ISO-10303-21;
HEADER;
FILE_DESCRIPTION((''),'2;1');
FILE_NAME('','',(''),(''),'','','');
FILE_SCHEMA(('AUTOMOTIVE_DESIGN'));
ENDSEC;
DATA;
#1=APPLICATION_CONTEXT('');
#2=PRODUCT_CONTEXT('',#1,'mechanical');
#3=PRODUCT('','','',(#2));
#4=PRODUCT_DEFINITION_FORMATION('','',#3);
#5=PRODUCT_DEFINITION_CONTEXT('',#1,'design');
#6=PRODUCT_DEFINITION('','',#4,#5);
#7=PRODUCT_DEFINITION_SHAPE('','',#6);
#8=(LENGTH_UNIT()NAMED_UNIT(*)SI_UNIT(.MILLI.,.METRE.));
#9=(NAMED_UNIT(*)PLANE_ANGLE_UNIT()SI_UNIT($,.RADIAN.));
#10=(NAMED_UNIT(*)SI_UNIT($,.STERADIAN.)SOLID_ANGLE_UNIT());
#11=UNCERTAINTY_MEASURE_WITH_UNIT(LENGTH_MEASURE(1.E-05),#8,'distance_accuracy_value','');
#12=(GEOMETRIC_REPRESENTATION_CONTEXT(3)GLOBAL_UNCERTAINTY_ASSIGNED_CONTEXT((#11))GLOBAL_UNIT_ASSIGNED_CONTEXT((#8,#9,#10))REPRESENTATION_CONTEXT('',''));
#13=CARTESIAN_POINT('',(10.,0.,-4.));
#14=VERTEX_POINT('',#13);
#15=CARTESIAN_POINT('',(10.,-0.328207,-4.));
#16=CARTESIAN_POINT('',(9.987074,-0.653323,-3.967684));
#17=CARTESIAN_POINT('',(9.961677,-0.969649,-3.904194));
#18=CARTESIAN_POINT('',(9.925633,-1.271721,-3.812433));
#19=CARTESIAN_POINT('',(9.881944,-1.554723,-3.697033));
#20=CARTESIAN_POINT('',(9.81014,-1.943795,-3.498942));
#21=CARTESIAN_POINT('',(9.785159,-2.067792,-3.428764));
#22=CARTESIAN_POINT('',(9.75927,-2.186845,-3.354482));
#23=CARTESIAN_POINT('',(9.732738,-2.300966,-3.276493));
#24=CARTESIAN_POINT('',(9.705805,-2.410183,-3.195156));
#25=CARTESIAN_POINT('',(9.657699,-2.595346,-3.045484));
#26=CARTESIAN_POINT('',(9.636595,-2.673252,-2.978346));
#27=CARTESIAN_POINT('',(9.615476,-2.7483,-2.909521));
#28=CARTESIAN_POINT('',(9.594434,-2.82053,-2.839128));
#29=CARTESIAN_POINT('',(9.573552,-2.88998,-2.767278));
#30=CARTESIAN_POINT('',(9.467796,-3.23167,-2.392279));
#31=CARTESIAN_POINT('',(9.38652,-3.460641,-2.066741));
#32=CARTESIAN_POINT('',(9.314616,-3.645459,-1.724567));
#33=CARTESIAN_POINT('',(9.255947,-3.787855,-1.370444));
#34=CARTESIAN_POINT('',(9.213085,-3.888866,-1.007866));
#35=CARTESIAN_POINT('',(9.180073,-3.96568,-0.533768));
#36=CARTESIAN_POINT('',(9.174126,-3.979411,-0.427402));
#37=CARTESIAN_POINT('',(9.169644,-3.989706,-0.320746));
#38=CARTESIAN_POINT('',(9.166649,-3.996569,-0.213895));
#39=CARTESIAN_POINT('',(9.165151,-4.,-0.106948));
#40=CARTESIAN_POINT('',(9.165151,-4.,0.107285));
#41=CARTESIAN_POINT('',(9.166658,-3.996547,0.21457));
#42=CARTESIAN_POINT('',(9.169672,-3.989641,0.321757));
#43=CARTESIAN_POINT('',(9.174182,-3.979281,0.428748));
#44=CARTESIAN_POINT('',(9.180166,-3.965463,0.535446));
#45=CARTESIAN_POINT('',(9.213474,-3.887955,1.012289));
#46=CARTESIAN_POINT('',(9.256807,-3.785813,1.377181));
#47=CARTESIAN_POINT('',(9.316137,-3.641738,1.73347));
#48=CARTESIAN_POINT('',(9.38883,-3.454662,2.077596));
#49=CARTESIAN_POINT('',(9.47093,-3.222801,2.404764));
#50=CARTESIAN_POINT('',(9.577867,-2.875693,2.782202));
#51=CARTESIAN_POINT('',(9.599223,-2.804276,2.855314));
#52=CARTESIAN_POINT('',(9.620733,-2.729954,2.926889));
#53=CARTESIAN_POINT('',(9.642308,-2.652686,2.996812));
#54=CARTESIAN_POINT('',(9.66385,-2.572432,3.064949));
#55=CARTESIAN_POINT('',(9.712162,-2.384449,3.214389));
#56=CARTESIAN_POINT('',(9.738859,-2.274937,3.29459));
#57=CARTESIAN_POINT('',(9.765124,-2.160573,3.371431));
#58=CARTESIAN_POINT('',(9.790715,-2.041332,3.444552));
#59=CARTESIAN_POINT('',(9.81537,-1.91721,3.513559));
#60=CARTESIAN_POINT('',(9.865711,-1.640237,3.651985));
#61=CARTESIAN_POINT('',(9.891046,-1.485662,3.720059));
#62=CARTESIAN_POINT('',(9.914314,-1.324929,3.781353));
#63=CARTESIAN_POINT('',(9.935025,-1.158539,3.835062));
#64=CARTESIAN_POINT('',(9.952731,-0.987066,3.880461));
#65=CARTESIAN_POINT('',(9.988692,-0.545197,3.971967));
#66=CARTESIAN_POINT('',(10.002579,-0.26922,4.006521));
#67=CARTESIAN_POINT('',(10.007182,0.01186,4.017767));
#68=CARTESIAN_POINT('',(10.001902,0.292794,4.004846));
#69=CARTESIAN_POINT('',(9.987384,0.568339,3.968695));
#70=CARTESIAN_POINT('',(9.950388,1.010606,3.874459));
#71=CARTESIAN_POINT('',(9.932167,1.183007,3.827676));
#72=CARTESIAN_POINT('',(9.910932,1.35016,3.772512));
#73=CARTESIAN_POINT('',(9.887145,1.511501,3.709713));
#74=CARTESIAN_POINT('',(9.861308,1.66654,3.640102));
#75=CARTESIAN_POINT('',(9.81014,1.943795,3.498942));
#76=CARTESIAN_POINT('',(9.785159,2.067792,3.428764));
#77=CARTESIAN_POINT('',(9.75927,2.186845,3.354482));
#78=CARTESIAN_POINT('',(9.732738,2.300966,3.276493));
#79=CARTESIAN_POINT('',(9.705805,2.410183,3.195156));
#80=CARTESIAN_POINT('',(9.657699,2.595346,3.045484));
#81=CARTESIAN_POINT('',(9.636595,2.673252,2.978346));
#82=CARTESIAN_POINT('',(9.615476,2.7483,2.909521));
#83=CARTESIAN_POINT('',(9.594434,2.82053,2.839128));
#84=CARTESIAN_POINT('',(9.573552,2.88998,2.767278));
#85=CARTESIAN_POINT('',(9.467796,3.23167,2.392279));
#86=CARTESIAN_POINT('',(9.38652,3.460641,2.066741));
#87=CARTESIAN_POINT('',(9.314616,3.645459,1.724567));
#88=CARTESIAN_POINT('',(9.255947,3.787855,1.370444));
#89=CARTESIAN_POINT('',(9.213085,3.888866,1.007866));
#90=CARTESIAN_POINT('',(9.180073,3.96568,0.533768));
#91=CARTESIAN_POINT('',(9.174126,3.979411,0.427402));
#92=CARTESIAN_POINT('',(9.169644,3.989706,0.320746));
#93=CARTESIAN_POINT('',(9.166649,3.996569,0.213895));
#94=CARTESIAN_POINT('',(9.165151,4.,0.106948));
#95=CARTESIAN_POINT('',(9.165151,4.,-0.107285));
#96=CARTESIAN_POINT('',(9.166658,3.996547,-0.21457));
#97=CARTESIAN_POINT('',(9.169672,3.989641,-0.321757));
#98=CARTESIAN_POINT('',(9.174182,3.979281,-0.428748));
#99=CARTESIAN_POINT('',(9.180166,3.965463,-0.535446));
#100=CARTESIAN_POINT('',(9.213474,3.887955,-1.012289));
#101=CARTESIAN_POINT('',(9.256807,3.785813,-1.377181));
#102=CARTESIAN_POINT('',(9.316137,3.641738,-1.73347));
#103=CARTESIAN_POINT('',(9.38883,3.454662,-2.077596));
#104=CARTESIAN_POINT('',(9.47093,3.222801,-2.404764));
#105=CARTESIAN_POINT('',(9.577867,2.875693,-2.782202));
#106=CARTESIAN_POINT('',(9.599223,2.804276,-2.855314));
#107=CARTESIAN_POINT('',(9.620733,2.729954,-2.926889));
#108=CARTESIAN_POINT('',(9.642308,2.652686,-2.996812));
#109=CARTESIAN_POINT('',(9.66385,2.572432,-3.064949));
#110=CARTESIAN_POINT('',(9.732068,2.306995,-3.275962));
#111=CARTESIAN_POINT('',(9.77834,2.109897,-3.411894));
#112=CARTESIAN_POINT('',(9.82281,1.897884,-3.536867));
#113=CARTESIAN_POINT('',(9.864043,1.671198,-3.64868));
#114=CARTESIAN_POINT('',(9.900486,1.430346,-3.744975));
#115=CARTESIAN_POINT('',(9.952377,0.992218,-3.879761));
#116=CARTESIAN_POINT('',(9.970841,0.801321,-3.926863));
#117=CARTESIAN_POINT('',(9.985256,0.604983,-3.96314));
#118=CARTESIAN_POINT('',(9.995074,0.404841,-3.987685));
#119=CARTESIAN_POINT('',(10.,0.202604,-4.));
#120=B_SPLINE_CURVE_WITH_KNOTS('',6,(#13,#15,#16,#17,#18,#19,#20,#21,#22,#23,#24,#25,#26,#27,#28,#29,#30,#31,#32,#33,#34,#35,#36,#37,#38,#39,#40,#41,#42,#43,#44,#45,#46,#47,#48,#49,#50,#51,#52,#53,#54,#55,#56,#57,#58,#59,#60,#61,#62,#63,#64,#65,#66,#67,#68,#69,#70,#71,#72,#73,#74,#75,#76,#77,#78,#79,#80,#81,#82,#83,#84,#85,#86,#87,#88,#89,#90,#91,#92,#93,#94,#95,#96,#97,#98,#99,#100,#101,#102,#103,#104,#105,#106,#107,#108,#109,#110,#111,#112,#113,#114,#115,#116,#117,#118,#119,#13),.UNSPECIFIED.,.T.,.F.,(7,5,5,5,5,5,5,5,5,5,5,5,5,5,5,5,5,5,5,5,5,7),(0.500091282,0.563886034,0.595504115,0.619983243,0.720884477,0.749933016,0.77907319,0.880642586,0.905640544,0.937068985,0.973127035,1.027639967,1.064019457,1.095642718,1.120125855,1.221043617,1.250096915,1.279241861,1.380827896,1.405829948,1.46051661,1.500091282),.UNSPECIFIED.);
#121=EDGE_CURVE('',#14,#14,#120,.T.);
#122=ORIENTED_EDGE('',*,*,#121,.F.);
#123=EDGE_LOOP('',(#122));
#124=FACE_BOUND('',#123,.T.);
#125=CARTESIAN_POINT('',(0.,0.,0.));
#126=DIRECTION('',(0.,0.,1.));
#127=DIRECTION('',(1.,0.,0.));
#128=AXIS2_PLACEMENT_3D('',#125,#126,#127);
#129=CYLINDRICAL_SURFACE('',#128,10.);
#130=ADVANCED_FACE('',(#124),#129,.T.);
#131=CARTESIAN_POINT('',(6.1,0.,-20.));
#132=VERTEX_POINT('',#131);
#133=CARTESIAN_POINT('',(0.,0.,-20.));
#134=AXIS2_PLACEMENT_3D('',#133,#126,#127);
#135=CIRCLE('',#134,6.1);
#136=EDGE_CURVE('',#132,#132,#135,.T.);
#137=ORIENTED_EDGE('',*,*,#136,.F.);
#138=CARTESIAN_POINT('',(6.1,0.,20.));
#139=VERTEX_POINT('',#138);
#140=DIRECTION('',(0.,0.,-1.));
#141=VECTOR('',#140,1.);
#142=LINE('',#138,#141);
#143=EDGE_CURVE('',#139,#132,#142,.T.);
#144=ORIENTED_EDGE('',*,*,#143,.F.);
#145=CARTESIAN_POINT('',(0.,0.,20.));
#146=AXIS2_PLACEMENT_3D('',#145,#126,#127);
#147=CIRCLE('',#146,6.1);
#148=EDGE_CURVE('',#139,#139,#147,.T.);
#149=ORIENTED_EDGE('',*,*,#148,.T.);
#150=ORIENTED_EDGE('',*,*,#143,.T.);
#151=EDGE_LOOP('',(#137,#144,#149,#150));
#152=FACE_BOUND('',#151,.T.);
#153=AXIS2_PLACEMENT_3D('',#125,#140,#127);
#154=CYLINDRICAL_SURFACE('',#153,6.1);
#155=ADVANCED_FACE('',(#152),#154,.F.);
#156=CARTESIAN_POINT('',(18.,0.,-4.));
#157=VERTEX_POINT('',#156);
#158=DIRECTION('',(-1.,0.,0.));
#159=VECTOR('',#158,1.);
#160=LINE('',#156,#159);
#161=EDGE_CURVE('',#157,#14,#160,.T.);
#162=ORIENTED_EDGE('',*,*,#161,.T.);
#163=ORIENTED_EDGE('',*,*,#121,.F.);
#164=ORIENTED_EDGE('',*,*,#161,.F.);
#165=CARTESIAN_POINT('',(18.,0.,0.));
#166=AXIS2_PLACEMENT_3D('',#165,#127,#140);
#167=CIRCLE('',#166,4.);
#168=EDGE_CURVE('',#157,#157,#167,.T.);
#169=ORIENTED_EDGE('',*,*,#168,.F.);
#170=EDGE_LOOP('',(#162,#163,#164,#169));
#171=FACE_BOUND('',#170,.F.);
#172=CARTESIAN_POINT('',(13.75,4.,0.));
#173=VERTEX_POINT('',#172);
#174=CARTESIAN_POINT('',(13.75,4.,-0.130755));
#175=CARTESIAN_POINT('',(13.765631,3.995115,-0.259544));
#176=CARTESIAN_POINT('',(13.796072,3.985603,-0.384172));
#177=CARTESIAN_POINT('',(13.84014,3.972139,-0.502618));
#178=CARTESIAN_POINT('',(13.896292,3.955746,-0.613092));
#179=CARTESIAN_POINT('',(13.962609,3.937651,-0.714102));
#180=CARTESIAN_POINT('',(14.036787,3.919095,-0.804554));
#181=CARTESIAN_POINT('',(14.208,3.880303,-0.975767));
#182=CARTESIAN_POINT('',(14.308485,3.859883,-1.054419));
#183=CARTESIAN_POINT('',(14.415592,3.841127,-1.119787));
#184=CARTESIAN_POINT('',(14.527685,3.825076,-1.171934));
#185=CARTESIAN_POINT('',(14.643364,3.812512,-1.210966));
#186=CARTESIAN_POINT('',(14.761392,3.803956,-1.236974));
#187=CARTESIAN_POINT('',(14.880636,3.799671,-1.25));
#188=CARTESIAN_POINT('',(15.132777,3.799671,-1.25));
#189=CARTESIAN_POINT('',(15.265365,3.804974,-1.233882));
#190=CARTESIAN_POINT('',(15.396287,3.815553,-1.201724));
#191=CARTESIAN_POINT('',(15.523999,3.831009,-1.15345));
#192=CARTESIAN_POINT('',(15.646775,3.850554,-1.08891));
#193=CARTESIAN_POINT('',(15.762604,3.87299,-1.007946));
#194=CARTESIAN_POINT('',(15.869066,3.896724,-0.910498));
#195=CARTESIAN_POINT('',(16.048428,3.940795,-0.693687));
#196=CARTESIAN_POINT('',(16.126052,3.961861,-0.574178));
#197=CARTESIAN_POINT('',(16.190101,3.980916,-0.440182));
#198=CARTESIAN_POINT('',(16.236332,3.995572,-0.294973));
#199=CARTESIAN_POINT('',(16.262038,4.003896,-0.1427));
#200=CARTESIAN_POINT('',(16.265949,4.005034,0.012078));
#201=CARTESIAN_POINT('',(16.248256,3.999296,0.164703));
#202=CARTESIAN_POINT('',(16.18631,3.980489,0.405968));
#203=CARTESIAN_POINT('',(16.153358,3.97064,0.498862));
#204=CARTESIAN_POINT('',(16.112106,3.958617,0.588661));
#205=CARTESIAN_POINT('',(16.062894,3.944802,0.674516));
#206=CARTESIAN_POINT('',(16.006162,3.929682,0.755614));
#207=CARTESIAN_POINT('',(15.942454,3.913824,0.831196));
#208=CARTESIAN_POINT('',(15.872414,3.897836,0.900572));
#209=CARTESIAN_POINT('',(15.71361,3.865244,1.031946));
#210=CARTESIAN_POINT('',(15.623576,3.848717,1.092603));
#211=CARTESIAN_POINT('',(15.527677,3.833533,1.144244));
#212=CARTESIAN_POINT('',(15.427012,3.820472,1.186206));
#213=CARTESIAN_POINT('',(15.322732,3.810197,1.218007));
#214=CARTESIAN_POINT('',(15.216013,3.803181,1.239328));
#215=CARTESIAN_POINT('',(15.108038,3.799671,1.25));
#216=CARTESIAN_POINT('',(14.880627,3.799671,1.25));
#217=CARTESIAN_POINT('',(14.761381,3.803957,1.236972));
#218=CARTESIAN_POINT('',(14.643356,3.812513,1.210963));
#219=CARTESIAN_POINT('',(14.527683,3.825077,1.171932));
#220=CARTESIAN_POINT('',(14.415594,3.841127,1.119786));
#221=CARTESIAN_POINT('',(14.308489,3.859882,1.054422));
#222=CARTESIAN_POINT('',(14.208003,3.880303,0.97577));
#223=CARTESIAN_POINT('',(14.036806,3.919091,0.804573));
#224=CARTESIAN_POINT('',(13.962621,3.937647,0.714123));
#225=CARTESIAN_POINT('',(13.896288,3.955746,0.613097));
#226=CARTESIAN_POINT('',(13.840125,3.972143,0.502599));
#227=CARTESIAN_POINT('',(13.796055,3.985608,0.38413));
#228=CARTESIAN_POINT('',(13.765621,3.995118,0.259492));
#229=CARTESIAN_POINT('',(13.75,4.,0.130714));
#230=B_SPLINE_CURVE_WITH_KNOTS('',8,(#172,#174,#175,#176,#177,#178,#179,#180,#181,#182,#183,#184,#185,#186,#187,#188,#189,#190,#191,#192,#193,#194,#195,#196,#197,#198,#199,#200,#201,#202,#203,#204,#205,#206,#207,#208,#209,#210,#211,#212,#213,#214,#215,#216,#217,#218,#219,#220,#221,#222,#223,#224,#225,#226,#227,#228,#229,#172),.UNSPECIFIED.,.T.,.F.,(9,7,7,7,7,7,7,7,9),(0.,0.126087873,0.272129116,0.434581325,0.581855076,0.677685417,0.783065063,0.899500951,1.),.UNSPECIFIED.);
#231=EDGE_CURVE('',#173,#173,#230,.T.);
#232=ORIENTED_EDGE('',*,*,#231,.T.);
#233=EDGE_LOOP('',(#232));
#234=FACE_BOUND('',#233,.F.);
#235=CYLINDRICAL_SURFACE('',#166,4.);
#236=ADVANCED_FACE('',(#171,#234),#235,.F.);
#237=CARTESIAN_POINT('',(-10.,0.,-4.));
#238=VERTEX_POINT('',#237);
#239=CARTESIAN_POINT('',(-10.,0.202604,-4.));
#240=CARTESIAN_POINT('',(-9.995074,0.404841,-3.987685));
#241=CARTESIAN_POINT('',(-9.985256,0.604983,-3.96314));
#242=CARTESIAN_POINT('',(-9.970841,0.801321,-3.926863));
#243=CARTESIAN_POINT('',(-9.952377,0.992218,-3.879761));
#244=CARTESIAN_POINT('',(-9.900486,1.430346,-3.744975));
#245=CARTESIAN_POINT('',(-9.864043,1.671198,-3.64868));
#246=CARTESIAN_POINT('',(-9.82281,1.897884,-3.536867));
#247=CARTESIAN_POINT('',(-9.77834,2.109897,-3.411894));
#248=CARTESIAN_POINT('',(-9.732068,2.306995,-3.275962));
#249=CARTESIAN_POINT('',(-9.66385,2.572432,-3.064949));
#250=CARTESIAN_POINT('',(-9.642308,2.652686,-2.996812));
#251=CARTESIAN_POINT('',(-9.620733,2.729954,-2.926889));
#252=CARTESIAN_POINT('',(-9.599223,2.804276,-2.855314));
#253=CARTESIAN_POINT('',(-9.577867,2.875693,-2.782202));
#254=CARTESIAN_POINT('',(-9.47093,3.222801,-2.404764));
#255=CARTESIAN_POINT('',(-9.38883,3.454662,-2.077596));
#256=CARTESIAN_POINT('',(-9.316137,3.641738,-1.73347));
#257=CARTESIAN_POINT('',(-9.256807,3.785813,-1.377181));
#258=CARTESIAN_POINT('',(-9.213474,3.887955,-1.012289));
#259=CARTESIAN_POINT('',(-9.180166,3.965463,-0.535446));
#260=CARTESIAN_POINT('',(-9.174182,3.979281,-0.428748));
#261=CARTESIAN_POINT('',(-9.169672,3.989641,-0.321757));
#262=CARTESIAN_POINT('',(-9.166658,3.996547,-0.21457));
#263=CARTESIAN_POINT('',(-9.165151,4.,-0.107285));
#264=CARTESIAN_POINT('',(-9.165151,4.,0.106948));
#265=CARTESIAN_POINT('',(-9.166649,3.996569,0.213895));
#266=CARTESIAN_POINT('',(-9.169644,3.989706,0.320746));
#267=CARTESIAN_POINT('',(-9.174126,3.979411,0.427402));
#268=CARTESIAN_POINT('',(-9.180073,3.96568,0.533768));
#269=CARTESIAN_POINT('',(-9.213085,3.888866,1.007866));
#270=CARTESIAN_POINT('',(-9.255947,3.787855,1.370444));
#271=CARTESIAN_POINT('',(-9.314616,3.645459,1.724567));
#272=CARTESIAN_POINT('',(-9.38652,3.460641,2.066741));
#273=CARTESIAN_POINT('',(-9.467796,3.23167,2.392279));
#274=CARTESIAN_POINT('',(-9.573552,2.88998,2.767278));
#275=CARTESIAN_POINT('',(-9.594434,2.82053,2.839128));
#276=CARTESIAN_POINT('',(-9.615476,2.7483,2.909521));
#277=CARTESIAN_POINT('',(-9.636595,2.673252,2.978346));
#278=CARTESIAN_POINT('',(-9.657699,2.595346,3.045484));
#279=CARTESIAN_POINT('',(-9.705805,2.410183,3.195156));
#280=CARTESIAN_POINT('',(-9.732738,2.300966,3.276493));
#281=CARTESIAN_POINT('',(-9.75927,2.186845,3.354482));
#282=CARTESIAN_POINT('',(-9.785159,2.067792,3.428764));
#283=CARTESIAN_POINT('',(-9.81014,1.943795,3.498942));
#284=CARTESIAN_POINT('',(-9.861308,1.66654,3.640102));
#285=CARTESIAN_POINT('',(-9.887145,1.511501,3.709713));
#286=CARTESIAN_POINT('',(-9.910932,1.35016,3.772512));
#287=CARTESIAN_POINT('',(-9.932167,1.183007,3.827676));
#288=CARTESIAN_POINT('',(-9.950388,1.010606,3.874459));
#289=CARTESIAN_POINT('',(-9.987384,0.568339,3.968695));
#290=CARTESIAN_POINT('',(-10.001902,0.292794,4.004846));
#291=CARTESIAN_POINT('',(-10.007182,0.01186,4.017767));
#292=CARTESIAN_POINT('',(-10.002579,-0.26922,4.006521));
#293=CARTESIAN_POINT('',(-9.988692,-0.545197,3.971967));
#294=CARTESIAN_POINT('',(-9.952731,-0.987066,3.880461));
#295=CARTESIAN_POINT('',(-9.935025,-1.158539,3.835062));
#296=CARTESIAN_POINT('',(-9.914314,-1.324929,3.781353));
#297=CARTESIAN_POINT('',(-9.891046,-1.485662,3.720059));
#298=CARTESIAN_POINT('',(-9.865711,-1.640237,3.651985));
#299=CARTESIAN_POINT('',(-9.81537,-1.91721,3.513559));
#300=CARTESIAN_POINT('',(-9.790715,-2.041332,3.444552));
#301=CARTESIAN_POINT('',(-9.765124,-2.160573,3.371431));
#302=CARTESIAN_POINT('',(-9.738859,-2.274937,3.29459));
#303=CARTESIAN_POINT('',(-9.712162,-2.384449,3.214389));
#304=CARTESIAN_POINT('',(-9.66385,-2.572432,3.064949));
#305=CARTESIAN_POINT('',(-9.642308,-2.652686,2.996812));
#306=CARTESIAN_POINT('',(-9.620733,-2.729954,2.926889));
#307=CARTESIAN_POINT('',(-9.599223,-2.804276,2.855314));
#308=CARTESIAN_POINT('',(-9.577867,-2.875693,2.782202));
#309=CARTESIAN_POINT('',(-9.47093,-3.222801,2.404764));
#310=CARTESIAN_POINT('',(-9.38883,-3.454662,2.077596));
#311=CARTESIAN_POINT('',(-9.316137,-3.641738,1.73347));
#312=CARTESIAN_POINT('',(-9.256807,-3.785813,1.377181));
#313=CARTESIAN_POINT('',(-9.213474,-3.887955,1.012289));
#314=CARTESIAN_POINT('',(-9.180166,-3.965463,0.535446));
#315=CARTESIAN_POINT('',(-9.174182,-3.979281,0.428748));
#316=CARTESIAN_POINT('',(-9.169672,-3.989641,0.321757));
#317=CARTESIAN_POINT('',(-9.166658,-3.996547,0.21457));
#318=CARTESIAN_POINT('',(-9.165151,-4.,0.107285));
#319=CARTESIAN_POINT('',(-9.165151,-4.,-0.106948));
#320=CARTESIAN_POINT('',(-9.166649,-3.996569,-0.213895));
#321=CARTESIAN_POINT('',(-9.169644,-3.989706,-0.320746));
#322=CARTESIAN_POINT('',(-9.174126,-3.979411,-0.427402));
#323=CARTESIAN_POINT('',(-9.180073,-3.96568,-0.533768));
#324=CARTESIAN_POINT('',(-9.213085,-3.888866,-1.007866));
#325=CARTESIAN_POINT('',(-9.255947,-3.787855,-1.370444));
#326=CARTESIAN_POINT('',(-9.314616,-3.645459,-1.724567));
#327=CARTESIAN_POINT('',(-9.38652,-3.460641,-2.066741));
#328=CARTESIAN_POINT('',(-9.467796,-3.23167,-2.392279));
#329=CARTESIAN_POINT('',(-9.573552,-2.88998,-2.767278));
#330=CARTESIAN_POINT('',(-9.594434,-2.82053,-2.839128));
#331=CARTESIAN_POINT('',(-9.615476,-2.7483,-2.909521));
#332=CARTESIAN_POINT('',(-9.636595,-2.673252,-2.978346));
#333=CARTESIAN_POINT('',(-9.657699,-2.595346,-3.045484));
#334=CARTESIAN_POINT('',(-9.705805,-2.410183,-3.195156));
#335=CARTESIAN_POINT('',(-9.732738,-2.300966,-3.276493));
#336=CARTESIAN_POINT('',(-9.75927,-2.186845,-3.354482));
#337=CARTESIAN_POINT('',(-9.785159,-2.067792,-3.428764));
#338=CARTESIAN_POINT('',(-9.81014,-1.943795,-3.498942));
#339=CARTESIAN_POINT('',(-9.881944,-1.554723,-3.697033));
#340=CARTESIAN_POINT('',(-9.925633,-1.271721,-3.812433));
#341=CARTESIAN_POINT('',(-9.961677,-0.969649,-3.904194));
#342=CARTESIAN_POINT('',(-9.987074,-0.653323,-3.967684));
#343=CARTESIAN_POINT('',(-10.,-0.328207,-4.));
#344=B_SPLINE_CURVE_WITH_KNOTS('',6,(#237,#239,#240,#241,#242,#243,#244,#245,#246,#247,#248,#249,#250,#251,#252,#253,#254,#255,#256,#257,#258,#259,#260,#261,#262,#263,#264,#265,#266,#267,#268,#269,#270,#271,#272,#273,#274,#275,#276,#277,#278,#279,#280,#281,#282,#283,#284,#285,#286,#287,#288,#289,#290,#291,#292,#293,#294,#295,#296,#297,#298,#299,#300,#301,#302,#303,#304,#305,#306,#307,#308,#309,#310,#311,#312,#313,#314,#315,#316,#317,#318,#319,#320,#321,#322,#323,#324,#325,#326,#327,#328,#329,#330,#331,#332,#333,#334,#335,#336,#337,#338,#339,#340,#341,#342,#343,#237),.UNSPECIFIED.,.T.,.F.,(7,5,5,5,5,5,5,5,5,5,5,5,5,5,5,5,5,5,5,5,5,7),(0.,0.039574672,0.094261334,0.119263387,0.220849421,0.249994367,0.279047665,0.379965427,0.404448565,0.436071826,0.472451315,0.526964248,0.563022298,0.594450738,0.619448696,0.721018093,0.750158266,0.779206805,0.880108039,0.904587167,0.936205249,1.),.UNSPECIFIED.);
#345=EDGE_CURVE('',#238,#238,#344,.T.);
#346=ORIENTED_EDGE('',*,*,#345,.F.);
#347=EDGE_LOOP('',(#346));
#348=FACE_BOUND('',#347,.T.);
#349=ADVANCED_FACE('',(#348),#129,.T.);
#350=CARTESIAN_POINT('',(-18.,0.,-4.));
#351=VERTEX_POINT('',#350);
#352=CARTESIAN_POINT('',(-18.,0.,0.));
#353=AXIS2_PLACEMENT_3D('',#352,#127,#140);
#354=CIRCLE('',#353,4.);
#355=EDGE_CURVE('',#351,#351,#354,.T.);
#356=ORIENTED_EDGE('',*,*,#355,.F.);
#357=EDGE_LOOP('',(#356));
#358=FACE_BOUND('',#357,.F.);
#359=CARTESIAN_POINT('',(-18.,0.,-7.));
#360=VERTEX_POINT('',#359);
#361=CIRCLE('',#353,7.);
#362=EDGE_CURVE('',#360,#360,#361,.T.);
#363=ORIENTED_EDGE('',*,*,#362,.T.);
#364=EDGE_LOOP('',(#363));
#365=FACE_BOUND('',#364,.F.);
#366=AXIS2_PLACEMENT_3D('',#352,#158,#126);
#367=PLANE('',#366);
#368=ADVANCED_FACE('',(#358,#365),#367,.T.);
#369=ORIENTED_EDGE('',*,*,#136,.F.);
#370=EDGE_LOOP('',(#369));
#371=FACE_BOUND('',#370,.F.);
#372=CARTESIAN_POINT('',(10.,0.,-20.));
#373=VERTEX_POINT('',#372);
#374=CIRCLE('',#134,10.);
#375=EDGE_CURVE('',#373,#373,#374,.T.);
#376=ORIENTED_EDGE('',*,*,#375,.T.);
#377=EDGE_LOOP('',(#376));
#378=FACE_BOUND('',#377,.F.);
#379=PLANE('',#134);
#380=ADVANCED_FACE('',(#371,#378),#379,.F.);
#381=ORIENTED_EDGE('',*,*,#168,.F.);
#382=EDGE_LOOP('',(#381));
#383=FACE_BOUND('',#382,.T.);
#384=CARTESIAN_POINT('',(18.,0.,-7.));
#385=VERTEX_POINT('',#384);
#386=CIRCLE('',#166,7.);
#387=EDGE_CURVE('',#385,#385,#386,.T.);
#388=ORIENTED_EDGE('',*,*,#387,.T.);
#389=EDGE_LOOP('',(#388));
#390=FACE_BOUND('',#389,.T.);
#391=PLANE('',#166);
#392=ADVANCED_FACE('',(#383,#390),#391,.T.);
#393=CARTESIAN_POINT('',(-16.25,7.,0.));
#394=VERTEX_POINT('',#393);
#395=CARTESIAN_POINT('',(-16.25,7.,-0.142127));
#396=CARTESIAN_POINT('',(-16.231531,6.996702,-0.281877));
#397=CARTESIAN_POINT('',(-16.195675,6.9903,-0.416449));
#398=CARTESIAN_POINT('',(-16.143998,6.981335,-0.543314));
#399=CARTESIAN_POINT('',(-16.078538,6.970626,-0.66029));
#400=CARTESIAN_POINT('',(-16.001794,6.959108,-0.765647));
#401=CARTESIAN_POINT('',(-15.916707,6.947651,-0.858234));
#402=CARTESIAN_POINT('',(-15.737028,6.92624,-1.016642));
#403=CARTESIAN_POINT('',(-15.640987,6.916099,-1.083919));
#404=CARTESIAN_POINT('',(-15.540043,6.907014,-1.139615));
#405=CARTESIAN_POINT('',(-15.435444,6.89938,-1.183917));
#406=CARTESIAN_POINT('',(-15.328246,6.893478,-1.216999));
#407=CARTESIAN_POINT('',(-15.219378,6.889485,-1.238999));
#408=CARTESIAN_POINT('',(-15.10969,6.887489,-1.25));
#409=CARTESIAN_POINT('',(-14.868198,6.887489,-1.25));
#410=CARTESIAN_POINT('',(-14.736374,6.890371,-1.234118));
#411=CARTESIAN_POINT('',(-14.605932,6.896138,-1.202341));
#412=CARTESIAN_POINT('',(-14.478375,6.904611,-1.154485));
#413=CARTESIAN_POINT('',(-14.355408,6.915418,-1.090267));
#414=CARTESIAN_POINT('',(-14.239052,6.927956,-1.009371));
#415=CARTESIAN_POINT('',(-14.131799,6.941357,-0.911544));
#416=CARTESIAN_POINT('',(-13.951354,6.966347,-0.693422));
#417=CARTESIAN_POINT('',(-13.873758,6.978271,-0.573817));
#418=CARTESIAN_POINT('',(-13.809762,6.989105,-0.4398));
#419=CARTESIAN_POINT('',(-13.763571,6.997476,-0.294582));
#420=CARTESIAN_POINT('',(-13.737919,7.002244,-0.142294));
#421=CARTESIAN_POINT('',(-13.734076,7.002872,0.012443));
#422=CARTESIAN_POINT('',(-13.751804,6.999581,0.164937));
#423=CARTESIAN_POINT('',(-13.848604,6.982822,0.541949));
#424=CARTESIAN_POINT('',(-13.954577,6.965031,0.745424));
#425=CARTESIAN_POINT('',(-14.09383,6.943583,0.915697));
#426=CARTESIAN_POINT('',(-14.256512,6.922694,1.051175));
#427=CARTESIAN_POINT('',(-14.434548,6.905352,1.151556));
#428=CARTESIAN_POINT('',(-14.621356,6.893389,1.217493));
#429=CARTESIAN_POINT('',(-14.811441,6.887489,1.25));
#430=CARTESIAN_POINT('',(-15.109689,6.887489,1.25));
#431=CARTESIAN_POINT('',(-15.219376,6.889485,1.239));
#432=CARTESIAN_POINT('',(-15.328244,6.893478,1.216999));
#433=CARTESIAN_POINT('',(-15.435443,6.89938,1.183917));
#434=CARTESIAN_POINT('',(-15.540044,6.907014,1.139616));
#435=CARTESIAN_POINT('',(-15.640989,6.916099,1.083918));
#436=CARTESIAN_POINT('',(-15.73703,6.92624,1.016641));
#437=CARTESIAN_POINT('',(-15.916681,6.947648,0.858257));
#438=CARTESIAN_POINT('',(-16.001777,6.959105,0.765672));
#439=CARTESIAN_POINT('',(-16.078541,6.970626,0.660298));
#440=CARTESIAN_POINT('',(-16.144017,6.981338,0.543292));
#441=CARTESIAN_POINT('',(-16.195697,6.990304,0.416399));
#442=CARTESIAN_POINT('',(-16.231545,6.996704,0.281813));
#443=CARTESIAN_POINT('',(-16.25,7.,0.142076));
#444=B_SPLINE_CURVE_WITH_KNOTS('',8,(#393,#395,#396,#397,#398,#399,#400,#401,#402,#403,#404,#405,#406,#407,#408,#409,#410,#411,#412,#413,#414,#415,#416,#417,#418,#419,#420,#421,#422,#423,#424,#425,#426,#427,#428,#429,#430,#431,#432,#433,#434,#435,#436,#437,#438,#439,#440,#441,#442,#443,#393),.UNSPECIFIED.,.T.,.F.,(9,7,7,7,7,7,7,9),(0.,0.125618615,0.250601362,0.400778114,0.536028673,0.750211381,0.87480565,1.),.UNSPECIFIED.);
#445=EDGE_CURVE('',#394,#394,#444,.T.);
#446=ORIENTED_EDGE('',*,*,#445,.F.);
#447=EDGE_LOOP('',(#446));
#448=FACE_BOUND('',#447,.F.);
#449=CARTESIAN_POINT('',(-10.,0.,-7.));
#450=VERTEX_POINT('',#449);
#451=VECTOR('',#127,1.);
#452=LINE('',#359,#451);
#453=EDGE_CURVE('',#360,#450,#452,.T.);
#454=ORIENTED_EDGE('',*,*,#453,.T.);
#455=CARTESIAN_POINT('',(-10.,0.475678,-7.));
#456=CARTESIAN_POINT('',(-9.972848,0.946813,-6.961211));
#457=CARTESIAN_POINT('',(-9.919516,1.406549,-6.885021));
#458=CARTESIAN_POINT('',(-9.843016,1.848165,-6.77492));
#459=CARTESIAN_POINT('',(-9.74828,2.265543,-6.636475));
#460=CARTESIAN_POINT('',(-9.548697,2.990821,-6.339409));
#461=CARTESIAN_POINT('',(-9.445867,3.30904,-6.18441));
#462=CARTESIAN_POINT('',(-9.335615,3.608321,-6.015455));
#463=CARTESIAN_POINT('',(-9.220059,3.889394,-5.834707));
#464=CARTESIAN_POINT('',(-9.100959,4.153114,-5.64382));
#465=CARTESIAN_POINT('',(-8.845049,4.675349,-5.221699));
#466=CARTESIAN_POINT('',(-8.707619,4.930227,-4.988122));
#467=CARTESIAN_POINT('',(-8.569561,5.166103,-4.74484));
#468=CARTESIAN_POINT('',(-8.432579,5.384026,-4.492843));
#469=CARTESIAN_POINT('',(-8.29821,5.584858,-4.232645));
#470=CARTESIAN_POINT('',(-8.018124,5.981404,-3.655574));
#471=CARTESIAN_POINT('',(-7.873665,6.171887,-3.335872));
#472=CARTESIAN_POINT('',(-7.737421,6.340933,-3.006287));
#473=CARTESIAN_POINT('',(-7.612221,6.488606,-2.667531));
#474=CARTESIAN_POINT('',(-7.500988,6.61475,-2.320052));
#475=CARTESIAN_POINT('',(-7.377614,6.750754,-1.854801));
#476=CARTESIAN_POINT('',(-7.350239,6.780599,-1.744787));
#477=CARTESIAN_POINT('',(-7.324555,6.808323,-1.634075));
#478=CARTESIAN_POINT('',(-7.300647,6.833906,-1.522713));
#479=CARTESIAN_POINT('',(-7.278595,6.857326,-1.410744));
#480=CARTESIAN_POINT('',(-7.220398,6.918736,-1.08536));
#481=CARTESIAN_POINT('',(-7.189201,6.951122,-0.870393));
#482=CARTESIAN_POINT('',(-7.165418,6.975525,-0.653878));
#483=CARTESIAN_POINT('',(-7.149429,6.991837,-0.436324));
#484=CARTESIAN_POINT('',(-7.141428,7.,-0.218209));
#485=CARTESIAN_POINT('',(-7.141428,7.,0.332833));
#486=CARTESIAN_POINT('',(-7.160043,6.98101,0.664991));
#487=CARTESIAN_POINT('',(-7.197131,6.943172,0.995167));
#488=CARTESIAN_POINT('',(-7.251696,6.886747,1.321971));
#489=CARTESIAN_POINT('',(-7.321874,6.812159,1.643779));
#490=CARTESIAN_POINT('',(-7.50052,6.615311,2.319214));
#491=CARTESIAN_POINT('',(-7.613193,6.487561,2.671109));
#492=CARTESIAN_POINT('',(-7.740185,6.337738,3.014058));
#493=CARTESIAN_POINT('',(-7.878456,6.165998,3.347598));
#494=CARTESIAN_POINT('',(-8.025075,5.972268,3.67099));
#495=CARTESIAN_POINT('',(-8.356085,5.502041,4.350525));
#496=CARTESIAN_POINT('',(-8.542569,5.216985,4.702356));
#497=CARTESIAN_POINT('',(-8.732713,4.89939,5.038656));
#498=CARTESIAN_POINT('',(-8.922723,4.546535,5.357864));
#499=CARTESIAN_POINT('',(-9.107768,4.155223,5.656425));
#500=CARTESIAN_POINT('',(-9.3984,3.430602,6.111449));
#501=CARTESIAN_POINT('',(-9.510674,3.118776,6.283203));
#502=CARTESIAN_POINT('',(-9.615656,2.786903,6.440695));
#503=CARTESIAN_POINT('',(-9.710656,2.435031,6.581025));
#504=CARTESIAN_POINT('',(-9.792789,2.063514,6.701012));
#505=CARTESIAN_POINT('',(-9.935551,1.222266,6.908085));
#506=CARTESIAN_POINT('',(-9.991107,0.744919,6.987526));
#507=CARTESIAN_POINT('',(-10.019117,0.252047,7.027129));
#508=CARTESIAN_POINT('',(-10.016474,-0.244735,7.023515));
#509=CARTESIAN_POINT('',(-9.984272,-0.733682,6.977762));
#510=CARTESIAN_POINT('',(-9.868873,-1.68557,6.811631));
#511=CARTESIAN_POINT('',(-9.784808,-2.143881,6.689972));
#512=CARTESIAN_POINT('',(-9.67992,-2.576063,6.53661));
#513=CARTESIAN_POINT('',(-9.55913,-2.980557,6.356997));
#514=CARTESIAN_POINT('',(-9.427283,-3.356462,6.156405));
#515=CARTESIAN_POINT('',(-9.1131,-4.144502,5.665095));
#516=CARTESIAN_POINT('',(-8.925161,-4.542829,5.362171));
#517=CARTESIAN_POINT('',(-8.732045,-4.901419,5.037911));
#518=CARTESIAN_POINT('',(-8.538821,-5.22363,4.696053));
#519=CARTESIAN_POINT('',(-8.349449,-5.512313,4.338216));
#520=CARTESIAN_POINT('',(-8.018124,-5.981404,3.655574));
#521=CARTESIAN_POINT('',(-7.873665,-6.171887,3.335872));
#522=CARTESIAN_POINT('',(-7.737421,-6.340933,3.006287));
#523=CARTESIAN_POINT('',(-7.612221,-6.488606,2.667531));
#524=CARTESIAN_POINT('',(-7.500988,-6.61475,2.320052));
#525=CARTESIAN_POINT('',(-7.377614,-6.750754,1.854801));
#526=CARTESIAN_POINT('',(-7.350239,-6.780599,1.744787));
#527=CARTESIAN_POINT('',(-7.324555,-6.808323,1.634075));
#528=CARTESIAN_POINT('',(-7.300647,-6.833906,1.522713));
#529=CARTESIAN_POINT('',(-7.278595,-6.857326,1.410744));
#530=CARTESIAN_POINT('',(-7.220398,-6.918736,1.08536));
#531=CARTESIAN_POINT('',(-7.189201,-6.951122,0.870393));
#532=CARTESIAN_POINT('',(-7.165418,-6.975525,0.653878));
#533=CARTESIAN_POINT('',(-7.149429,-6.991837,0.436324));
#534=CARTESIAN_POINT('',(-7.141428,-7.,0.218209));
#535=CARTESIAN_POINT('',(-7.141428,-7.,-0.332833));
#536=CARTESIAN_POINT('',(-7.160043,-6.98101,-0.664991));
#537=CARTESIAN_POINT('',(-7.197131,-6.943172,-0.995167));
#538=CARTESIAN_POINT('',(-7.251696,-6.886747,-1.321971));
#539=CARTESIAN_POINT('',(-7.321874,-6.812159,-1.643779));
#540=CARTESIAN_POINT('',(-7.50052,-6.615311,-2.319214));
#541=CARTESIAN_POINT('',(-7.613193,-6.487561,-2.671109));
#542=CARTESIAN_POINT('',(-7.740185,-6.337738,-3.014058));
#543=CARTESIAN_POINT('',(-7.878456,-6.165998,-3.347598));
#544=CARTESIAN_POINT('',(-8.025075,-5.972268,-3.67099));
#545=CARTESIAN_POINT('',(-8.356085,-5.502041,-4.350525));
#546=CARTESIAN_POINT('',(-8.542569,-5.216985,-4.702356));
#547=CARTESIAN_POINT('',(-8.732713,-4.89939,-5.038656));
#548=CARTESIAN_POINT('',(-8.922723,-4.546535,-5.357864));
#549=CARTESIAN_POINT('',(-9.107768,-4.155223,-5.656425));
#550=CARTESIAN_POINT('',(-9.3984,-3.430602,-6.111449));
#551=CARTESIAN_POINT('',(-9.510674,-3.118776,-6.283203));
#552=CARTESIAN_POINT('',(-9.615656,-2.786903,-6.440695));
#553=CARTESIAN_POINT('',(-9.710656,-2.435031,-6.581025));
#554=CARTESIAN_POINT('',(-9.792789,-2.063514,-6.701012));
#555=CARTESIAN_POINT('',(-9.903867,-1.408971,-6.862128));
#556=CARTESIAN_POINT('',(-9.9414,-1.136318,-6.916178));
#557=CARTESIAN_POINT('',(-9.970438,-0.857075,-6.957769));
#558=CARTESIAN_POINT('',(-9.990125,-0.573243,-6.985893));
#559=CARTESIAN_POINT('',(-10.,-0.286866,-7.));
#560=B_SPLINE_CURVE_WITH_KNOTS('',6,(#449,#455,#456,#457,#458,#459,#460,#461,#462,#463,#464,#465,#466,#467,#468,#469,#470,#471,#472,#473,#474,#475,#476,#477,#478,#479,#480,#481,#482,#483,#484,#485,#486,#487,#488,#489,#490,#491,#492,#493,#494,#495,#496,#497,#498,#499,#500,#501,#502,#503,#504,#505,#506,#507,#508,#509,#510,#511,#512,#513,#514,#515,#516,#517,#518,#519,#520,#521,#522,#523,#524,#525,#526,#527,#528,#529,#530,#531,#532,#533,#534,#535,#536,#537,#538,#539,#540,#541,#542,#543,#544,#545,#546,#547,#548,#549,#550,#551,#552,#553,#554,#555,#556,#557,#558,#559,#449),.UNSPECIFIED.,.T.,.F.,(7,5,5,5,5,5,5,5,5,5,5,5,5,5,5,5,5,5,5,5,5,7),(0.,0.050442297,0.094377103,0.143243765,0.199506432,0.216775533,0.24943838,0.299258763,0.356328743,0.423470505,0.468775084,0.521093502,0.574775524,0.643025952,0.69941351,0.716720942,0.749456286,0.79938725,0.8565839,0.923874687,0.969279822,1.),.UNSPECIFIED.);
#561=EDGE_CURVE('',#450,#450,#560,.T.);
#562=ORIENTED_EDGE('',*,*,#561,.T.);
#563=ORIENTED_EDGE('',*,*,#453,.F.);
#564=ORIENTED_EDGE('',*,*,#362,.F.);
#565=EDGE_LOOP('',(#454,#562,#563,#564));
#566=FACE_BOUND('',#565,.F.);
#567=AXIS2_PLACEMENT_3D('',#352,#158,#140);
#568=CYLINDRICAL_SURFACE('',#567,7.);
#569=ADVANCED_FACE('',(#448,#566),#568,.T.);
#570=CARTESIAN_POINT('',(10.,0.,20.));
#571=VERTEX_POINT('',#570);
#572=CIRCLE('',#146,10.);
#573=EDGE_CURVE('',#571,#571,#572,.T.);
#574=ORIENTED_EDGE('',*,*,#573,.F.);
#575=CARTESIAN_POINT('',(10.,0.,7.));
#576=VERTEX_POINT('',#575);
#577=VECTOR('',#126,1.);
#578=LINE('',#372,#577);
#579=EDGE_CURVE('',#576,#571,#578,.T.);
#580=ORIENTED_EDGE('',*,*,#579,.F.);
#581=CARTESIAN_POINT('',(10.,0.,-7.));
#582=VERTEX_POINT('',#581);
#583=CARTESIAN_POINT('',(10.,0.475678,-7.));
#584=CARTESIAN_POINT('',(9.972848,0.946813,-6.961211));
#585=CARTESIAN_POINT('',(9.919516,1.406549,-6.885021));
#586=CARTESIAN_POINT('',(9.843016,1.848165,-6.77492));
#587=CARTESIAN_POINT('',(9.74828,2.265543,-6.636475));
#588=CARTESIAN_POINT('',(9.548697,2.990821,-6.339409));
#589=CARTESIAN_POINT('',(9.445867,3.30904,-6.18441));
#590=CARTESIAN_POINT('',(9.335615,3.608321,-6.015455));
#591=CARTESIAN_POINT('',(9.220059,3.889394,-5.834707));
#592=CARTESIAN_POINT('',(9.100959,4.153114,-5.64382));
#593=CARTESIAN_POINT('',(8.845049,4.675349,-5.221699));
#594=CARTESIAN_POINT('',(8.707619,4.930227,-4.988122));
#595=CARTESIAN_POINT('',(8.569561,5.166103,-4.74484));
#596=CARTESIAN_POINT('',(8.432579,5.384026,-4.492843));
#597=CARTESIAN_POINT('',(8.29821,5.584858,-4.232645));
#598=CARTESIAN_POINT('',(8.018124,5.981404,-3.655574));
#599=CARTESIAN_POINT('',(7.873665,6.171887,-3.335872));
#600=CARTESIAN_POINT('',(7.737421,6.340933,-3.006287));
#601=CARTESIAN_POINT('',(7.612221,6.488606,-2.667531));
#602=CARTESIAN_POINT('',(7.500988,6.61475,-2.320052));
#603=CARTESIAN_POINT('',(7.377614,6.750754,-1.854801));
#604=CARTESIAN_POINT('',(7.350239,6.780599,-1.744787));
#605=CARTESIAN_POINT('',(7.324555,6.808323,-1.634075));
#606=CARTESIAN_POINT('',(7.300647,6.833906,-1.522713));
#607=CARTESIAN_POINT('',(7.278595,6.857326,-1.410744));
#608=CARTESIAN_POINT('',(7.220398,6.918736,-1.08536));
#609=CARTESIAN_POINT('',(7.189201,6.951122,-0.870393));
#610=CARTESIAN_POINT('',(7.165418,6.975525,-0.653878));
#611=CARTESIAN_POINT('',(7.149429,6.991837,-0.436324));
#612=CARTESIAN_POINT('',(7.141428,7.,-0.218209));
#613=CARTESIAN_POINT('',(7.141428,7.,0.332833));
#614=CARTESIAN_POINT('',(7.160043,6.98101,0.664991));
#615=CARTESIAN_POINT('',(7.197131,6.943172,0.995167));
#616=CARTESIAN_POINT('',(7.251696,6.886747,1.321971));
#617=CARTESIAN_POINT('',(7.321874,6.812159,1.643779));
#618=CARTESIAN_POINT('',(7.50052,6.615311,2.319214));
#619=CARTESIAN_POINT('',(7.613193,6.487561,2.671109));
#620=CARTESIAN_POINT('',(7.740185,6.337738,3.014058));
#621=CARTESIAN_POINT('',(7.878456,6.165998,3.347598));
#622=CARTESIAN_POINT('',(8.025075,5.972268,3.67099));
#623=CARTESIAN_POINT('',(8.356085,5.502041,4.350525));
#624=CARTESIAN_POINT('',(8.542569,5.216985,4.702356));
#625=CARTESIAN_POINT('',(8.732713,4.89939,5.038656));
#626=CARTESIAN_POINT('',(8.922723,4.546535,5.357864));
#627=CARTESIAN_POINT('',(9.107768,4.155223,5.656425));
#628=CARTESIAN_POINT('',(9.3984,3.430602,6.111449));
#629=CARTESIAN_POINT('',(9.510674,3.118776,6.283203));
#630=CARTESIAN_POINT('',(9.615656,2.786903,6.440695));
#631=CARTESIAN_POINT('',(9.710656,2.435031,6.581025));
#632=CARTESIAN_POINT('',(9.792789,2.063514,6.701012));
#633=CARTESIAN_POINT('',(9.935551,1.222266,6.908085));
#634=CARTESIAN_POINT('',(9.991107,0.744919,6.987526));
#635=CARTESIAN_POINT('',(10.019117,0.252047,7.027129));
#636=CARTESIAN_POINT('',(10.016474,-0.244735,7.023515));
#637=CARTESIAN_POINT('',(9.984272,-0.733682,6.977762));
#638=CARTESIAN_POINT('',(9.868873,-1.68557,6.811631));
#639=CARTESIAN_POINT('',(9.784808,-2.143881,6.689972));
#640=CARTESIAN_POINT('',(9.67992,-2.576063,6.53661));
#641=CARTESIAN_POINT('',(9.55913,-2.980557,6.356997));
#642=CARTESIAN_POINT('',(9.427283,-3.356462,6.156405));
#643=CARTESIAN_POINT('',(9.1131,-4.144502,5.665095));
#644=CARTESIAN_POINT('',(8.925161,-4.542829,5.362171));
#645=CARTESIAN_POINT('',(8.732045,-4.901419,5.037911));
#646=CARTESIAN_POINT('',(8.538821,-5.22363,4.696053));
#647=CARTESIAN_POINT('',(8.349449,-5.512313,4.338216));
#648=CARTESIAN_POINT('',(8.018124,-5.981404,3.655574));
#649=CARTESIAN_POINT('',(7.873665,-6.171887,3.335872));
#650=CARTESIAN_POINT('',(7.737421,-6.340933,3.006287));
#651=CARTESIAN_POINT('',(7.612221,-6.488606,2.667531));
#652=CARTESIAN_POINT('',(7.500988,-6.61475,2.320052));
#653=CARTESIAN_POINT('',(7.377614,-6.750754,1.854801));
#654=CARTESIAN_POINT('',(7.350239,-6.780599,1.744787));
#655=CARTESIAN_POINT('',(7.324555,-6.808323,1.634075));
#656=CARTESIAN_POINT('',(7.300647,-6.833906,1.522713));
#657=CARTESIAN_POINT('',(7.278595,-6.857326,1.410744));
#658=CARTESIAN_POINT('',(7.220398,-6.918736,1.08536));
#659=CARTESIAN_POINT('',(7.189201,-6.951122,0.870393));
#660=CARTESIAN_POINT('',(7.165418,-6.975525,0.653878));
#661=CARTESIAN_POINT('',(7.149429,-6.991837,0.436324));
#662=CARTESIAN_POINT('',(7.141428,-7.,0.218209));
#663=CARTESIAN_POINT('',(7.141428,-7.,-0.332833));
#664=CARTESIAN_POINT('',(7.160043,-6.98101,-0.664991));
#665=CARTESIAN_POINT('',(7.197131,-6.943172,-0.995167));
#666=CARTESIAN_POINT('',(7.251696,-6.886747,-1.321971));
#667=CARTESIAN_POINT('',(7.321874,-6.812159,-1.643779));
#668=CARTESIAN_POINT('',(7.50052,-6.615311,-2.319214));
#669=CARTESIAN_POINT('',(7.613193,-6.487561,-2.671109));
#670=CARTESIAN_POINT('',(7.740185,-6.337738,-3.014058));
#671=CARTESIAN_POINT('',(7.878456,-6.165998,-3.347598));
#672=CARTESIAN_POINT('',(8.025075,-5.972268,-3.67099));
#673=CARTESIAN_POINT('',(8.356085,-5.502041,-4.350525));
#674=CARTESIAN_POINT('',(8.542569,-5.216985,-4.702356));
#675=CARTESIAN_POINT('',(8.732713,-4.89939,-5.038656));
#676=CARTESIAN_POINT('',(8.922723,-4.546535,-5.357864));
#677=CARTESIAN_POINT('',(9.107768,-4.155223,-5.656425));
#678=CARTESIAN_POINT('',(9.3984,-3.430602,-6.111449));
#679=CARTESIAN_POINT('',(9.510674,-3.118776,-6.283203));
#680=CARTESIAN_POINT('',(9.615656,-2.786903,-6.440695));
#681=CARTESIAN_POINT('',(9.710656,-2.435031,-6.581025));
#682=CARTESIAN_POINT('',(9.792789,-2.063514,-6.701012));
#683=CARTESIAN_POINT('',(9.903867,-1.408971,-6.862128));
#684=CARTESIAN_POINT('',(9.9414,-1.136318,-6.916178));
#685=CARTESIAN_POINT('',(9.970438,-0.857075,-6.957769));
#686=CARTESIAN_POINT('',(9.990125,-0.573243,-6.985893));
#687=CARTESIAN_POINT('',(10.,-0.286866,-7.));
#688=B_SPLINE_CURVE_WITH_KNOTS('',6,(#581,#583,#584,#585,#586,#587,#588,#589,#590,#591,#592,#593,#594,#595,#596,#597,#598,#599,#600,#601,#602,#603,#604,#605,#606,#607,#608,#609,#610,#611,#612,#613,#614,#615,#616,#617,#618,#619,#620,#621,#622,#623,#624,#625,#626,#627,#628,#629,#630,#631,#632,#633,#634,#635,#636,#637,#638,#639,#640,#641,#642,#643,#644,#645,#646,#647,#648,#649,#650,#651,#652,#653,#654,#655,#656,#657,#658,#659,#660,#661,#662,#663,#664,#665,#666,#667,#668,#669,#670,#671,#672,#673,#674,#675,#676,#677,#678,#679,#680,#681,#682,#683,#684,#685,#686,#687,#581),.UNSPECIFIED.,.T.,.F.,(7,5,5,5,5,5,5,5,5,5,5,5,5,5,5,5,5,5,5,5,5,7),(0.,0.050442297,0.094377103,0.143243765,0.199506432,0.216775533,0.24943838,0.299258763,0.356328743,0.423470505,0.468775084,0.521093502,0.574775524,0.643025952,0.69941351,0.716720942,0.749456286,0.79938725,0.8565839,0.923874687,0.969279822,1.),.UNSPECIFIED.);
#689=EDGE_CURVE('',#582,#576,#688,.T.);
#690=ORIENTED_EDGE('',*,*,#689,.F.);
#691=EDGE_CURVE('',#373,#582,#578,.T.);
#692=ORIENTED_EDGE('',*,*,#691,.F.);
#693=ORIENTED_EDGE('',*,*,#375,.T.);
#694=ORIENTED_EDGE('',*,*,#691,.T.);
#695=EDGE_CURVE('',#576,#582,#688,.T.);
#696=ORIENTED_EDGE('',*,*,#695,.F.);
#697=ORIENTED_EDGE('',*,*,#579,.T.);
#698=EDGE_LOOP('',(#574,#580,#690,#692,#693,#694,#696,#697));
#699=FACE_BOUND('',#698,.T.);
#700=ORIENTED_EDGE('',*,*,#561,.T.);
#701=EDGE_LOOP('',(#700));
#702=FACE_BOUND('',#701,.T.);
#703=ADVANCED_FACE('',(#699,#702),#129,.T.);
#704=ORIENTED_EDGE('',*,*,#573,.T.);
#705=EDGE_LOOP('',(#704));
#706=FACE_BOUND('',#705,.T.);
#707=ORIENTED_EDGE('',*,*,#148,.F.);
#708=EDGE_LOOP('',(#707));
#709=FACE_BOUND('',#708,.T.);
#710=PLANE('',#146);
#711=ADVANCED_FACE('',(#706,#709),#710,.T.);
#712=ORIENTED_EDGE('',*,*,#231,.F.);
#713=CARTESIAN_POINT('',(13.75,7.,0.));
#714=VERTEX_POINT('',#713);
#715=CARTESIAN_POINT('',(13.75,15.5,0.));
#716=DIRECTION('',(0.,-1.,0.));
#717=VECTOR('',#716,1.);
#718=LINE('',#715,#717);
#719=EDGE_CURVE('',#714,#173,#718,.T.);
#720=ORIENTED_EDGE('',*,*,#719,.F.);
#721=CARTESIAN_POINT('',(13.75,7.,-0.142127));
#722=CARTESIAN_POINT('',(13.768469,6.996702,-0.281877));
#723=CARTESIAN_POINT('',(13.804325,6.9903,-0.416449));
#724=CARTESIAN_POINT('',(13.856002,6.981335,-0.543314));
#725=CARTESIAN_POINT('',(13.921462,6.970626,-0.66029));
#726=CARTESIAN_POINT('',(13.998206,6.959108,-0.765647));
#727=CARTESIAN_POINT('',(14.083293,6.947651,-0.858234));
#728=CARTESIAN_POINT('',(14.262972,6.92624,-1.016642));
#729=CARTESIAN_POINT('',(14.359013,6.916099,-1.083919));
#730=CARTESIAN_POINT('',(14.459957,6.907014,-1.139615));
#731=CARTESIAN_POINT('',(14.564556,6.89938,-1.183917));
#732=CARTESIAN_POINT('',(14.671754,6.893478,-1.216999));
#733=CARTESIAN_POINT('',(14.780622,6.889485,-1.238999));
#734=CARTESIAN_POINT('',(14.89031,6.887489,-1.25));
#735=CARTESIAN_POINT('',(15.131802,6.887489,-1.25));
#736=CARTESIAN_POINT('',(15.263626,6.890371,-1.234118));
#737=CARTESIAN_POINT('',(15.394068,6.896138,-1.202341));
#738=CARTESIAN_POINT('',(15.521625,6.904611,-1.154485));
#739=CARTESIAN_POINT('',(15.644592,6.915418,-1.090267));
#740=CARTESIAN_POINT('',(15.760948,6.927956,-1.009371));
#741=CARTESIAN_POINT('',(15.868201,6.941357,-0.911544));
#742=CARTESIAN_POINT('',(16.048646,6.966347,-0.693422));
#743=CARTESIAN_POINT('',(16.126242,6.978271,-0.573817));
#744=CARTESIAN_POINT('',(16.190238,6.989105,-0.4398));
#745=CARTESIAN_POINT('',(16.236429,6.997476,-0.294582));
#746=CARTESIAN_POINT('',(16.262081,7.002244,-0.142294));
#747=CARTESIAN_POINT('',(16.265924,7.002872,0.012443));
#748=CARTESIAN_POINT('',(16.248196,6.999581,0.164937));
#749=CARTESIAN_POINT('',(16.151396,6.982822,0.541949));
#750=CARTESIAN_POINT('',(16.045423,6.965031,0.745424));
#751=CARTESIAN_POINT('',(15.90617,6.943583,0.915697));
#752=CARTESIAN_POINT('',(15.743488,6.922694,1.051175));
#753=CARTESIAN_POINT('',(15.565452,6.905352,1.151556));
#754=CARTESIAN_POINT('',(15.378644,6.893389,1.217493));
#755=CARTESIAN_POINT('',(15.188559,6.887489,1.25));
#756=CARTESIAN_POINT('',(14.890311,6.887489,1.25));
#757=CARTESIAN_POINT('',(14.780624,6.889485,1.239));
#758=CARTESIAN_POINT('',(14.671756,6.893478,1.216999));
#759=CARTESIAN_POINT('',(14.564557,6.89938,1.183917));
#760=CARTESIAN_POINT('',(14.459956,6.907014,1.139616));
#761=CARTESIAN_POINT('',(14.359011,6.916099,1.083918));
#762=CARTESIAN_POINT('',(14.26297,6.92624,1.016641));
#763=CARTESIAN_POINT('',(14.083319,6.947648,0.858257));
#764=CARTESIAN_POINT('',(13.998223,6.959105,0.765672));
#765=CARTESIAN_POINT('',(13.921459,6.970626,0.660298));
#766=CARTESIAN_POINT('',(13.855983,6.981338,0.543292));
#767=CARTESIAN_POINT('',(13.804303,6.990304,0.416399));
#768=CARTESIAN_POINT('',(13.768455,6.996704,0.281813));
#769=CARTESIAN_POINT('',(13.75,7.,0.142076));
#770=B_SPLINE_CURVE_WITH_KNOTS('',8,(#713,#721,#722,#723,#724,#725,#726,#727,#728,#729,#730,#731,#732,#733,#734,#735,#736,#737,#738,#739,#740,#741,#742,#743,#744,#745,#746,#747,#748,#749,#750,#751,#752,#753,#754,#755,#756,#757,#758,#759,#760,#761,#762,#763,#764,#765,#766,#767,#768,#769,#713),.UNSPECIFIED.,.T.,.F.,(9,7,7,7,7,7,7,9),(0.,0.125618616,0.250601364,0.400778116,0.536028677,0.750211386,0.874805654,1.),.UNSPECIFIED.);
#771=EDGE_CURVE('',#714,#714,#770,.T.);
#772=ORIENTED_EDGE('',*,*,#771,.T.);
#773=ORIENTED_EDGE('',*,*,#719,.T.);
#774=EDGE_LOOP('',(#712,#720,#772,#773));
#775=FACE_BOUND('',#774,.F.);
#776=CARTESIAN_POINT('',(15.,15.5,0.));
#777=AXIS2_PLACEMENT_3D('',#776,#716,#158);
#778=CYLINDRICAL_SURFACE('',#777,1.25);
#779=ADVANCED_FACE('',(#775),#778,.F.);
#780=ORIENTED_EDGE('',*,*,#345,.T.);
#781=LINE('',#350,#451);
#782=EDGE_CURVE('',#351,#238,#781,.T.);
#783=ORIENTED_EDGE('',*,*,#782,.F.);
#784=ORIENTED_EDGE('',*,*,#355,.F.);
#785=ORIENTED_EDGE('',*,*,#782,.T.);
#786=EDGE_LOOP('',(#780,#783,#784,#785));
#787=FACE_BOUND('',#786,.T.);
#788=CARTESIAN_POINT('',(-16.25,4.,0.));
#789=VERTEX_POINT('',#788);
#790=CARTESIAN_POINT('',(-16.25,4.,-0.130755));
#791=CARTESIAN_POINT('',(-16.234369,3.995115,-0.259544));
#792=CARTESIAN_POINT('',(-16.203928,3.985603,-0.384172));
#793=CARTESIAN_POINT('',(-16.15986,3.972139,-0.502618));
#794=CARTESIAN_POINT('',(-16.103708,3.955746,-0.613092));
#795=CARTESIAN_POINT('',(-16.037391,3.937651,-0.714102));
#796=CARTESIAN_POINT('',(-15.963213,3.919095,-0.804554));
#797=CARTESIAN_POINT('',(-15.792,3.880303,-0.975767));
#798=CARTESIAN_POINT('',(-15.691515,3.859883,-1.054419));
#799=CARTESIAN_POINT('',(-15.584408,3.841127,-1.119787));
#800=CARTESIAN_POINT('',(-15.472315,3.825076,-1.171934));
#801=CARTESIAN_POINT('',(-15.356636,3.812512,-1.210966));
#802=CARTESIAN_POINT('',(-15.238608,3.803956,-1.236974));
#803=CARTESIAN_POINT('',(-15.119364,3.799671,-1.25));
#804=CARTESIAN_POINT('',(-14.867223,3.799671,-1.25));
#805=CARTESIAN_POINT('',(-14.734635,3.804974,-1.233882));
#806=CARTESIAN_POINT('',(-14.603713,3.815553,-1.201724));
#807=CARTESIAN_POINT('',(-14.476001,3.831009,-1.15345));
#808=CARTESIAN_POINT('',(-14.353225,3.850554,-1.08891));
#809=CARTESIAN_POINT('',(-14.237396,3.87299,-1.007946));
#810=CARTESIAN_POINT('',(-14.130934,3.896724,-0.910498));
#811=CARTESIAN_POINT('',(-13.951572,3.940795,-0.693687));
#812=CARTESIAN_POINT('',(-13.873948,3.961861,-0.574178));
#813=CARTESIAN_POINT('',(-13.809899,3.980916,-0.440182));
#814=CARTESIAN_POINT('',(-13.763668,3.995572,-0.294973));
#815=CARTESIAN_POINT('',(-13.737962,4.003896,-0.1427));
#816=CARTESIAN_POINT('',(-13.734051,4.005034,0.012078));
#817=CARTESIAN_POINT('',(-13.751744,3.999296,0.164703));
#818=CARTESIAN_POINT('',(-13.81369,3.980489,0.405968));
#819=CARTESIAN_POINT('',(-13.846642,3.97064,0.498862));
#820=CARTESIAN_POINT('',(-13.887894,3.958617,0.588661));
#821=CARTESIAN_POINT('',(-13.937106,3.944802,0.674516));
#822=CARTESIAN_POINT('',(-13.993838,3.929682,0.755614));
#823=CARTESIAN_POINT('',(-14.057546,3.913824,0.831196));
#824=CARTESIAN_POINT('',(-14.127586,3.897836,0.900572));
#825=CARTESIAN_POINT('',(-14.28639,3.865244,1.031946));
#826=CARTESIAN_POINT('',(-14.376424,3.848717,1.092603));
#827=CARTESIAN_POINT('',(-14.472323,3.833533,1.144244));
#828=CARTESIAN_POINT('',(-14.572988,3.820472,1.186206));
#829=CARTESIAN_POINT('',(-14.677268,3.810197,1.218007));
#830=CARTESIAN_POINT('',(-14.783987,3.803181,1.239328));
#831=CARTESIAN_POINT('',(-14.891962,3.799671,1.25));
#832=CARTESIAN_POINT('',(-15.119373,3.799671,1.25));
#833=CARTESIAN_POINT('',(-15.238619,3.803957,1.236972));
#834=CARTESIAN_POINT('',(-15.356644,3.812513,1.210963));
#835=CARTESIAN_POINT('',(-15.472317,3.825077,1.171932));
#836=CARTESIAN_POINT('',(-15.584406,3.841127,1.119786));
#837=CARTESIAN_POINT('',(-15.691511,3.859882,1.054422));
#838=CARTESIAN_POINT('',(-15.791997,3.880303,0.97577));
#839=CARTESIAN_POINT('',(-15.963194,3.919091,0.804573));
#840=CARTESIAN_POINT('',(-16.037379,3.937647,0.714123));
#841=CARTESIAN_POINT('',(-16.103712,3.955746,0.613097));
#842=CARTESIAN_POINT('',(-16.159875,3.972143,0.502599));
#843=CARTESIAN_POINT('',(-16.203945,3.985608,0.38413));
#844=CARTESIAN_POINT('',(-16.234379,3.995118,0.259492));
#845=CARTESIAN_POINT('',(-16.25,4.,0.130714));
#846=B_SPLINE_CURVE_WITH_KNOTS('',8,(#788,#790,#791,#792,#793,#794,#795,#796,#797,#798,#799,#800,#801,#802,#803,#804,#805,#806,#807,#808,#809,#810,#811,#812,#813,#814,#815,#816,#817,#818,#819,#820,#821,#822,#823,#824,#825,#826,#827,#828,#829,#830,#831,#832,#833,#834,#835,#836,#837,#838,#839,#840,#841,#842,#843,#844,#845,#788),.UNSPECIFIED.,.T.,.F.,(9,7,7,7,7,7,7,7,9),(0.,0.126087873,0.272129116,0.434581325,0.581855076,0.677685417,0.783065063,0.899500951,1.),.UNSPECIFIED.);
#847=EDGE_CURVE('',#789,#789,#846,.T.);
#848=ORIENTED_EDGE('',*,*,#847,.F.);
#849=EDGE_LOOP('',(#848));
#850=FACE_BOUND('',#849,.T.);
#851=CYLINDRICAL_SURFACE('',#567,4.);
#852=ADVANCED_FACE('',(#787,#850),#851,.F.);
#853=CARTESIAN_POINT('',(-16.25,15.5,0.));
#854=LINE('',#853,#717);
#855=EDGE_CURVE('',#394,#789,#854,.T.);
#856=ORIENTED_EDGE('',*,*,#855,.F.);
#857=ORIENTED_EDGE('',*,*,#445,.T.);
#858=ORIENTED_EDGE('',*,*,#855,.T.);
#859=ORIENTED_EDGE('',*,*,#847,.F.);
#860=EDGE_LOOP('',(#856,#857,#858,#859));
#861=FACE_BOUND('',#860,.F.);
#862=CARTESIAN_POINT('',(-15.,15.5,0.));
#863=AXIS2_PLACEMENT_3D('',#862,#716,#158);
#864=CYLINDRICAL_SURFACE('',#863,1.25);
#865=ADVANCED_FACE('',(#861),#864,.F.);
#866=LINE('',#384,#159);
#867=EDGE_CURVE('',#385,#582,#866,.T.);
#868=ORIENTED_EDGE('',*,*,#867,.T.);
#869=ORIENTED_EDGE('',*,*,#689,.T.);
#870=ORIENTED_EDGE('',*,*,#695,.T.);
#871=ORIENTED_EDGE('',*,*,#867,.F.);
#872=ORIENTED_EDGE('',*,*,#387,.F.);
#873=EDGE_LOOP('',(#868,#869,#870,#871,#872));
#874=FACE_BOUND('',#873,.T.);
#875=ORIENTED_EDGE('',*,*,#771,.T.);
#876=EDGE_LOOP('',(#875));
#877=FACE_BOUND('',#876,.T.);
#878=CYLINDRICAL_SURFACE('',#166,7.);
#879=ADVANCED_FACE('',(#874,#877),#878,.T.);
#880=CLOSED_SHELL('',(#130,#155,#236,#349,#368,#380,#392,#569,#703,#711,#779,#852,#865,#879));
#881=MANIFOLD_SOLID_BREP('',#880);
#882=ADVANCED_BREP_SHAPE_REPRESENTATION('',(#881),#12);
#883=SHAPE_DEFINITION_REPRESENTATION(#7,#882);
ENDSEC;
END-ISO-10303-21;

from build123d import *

# Parameters (mm, degrees)
SKETCH1_R                = 10
SKETCH1_R_2              = 6.1
BOSS_EXTRUDE1_DEPTH      = 20
BOSS_EXTRUDE2_REACH      = 37.833
BOSS_EXTRUDE2_END_RADIUS = 10
SKETCH3_R                = 7
SKETCH3_R_2              = 4
M3_TAPPED_HOLE2_D        = 2.5
M3_TAPPED_HOLE2_DEPTH    = 8.5
M3_TAPPED_HOLE2_TIP      = 0.751075774


with BuildPart() as part:
    # Sketch1 → Boss-Extrude1 (new, symmetric)
    with BuildSketch(Plane.XY):
        Circle(SKETCH1_R)
        Circle(SKETCH1_R_2, mode=Mode.SUBTRACT)
    extrude(amount=BOSS_EXTRUDE1_DEPTH, both=True)

    # Boss-Extrude2: up to this cylinder (the profile starts outside it)
    boss_extrude2_end = Plane(origin=(0, 0, 6.80201), z_dir=(0, 0, -1)) * Cylinder(BOSS_EXTRUDE2_END_RADIUS, 96.666, mode=Mode.PRIVATE)
    # Sketch3 → Boss-Extrude2 (add, up to the surface)
    with BuildSketch(Plane(origin=(18, 0, 0), x_dir=(0, 0, -1), z_dir=(1, 0, 0)), mode=Mode.PRIVATE) as boss_extrude2_sk1:
        Circle(SKETCH3_R)
        Circle(SKETCH3_R_2, mode=Mode.SUBTRACT)
    boss_extrude2_tool1 = extrude(boss_extrude2_sk1.sketch, amount=-BOSS_EXTRUDE2_REACH, mode=Mode.PRIVATE) - boss_extrude2_end
    boss_extrude2 = boss_extrude2_tool1.solids().sort_by_distance((18, 0, 6.80201))[0]
    add(boss_extrude2)

    # Mirror2: Boss-Extrude2 across plane
    add(boss_extrude2.mirror(Plane(origin=(0, 0, 0), x_dir=(0, 0, 1), z_dir=(1, 0, 0))))

    # M3 Tapped Hole2
    with Locations(Plane(origin=(0, 7, 0), x_dir=(1, 0, 0), z_dir=(0, 1, 0))):
        with Locations((-15, 0), (15, 0)):
            Hole(M3_TAPPED_HOLE2_D / 2, depth=M3_TAPPED_HOLE2_DEPTH)
            with Locations((0, 0, -(M3_TAPPED_HOLE2_DEPTH + M3_TAPPED_HOLE2_TIP / 2))):  # 118° drill point
                Cone(0, M3_TAPPED_HOLE2_D / 2, M3_TAPPED_HOLE2_TIP, mode=Mode.SUBTRACT)


solid = part.part
